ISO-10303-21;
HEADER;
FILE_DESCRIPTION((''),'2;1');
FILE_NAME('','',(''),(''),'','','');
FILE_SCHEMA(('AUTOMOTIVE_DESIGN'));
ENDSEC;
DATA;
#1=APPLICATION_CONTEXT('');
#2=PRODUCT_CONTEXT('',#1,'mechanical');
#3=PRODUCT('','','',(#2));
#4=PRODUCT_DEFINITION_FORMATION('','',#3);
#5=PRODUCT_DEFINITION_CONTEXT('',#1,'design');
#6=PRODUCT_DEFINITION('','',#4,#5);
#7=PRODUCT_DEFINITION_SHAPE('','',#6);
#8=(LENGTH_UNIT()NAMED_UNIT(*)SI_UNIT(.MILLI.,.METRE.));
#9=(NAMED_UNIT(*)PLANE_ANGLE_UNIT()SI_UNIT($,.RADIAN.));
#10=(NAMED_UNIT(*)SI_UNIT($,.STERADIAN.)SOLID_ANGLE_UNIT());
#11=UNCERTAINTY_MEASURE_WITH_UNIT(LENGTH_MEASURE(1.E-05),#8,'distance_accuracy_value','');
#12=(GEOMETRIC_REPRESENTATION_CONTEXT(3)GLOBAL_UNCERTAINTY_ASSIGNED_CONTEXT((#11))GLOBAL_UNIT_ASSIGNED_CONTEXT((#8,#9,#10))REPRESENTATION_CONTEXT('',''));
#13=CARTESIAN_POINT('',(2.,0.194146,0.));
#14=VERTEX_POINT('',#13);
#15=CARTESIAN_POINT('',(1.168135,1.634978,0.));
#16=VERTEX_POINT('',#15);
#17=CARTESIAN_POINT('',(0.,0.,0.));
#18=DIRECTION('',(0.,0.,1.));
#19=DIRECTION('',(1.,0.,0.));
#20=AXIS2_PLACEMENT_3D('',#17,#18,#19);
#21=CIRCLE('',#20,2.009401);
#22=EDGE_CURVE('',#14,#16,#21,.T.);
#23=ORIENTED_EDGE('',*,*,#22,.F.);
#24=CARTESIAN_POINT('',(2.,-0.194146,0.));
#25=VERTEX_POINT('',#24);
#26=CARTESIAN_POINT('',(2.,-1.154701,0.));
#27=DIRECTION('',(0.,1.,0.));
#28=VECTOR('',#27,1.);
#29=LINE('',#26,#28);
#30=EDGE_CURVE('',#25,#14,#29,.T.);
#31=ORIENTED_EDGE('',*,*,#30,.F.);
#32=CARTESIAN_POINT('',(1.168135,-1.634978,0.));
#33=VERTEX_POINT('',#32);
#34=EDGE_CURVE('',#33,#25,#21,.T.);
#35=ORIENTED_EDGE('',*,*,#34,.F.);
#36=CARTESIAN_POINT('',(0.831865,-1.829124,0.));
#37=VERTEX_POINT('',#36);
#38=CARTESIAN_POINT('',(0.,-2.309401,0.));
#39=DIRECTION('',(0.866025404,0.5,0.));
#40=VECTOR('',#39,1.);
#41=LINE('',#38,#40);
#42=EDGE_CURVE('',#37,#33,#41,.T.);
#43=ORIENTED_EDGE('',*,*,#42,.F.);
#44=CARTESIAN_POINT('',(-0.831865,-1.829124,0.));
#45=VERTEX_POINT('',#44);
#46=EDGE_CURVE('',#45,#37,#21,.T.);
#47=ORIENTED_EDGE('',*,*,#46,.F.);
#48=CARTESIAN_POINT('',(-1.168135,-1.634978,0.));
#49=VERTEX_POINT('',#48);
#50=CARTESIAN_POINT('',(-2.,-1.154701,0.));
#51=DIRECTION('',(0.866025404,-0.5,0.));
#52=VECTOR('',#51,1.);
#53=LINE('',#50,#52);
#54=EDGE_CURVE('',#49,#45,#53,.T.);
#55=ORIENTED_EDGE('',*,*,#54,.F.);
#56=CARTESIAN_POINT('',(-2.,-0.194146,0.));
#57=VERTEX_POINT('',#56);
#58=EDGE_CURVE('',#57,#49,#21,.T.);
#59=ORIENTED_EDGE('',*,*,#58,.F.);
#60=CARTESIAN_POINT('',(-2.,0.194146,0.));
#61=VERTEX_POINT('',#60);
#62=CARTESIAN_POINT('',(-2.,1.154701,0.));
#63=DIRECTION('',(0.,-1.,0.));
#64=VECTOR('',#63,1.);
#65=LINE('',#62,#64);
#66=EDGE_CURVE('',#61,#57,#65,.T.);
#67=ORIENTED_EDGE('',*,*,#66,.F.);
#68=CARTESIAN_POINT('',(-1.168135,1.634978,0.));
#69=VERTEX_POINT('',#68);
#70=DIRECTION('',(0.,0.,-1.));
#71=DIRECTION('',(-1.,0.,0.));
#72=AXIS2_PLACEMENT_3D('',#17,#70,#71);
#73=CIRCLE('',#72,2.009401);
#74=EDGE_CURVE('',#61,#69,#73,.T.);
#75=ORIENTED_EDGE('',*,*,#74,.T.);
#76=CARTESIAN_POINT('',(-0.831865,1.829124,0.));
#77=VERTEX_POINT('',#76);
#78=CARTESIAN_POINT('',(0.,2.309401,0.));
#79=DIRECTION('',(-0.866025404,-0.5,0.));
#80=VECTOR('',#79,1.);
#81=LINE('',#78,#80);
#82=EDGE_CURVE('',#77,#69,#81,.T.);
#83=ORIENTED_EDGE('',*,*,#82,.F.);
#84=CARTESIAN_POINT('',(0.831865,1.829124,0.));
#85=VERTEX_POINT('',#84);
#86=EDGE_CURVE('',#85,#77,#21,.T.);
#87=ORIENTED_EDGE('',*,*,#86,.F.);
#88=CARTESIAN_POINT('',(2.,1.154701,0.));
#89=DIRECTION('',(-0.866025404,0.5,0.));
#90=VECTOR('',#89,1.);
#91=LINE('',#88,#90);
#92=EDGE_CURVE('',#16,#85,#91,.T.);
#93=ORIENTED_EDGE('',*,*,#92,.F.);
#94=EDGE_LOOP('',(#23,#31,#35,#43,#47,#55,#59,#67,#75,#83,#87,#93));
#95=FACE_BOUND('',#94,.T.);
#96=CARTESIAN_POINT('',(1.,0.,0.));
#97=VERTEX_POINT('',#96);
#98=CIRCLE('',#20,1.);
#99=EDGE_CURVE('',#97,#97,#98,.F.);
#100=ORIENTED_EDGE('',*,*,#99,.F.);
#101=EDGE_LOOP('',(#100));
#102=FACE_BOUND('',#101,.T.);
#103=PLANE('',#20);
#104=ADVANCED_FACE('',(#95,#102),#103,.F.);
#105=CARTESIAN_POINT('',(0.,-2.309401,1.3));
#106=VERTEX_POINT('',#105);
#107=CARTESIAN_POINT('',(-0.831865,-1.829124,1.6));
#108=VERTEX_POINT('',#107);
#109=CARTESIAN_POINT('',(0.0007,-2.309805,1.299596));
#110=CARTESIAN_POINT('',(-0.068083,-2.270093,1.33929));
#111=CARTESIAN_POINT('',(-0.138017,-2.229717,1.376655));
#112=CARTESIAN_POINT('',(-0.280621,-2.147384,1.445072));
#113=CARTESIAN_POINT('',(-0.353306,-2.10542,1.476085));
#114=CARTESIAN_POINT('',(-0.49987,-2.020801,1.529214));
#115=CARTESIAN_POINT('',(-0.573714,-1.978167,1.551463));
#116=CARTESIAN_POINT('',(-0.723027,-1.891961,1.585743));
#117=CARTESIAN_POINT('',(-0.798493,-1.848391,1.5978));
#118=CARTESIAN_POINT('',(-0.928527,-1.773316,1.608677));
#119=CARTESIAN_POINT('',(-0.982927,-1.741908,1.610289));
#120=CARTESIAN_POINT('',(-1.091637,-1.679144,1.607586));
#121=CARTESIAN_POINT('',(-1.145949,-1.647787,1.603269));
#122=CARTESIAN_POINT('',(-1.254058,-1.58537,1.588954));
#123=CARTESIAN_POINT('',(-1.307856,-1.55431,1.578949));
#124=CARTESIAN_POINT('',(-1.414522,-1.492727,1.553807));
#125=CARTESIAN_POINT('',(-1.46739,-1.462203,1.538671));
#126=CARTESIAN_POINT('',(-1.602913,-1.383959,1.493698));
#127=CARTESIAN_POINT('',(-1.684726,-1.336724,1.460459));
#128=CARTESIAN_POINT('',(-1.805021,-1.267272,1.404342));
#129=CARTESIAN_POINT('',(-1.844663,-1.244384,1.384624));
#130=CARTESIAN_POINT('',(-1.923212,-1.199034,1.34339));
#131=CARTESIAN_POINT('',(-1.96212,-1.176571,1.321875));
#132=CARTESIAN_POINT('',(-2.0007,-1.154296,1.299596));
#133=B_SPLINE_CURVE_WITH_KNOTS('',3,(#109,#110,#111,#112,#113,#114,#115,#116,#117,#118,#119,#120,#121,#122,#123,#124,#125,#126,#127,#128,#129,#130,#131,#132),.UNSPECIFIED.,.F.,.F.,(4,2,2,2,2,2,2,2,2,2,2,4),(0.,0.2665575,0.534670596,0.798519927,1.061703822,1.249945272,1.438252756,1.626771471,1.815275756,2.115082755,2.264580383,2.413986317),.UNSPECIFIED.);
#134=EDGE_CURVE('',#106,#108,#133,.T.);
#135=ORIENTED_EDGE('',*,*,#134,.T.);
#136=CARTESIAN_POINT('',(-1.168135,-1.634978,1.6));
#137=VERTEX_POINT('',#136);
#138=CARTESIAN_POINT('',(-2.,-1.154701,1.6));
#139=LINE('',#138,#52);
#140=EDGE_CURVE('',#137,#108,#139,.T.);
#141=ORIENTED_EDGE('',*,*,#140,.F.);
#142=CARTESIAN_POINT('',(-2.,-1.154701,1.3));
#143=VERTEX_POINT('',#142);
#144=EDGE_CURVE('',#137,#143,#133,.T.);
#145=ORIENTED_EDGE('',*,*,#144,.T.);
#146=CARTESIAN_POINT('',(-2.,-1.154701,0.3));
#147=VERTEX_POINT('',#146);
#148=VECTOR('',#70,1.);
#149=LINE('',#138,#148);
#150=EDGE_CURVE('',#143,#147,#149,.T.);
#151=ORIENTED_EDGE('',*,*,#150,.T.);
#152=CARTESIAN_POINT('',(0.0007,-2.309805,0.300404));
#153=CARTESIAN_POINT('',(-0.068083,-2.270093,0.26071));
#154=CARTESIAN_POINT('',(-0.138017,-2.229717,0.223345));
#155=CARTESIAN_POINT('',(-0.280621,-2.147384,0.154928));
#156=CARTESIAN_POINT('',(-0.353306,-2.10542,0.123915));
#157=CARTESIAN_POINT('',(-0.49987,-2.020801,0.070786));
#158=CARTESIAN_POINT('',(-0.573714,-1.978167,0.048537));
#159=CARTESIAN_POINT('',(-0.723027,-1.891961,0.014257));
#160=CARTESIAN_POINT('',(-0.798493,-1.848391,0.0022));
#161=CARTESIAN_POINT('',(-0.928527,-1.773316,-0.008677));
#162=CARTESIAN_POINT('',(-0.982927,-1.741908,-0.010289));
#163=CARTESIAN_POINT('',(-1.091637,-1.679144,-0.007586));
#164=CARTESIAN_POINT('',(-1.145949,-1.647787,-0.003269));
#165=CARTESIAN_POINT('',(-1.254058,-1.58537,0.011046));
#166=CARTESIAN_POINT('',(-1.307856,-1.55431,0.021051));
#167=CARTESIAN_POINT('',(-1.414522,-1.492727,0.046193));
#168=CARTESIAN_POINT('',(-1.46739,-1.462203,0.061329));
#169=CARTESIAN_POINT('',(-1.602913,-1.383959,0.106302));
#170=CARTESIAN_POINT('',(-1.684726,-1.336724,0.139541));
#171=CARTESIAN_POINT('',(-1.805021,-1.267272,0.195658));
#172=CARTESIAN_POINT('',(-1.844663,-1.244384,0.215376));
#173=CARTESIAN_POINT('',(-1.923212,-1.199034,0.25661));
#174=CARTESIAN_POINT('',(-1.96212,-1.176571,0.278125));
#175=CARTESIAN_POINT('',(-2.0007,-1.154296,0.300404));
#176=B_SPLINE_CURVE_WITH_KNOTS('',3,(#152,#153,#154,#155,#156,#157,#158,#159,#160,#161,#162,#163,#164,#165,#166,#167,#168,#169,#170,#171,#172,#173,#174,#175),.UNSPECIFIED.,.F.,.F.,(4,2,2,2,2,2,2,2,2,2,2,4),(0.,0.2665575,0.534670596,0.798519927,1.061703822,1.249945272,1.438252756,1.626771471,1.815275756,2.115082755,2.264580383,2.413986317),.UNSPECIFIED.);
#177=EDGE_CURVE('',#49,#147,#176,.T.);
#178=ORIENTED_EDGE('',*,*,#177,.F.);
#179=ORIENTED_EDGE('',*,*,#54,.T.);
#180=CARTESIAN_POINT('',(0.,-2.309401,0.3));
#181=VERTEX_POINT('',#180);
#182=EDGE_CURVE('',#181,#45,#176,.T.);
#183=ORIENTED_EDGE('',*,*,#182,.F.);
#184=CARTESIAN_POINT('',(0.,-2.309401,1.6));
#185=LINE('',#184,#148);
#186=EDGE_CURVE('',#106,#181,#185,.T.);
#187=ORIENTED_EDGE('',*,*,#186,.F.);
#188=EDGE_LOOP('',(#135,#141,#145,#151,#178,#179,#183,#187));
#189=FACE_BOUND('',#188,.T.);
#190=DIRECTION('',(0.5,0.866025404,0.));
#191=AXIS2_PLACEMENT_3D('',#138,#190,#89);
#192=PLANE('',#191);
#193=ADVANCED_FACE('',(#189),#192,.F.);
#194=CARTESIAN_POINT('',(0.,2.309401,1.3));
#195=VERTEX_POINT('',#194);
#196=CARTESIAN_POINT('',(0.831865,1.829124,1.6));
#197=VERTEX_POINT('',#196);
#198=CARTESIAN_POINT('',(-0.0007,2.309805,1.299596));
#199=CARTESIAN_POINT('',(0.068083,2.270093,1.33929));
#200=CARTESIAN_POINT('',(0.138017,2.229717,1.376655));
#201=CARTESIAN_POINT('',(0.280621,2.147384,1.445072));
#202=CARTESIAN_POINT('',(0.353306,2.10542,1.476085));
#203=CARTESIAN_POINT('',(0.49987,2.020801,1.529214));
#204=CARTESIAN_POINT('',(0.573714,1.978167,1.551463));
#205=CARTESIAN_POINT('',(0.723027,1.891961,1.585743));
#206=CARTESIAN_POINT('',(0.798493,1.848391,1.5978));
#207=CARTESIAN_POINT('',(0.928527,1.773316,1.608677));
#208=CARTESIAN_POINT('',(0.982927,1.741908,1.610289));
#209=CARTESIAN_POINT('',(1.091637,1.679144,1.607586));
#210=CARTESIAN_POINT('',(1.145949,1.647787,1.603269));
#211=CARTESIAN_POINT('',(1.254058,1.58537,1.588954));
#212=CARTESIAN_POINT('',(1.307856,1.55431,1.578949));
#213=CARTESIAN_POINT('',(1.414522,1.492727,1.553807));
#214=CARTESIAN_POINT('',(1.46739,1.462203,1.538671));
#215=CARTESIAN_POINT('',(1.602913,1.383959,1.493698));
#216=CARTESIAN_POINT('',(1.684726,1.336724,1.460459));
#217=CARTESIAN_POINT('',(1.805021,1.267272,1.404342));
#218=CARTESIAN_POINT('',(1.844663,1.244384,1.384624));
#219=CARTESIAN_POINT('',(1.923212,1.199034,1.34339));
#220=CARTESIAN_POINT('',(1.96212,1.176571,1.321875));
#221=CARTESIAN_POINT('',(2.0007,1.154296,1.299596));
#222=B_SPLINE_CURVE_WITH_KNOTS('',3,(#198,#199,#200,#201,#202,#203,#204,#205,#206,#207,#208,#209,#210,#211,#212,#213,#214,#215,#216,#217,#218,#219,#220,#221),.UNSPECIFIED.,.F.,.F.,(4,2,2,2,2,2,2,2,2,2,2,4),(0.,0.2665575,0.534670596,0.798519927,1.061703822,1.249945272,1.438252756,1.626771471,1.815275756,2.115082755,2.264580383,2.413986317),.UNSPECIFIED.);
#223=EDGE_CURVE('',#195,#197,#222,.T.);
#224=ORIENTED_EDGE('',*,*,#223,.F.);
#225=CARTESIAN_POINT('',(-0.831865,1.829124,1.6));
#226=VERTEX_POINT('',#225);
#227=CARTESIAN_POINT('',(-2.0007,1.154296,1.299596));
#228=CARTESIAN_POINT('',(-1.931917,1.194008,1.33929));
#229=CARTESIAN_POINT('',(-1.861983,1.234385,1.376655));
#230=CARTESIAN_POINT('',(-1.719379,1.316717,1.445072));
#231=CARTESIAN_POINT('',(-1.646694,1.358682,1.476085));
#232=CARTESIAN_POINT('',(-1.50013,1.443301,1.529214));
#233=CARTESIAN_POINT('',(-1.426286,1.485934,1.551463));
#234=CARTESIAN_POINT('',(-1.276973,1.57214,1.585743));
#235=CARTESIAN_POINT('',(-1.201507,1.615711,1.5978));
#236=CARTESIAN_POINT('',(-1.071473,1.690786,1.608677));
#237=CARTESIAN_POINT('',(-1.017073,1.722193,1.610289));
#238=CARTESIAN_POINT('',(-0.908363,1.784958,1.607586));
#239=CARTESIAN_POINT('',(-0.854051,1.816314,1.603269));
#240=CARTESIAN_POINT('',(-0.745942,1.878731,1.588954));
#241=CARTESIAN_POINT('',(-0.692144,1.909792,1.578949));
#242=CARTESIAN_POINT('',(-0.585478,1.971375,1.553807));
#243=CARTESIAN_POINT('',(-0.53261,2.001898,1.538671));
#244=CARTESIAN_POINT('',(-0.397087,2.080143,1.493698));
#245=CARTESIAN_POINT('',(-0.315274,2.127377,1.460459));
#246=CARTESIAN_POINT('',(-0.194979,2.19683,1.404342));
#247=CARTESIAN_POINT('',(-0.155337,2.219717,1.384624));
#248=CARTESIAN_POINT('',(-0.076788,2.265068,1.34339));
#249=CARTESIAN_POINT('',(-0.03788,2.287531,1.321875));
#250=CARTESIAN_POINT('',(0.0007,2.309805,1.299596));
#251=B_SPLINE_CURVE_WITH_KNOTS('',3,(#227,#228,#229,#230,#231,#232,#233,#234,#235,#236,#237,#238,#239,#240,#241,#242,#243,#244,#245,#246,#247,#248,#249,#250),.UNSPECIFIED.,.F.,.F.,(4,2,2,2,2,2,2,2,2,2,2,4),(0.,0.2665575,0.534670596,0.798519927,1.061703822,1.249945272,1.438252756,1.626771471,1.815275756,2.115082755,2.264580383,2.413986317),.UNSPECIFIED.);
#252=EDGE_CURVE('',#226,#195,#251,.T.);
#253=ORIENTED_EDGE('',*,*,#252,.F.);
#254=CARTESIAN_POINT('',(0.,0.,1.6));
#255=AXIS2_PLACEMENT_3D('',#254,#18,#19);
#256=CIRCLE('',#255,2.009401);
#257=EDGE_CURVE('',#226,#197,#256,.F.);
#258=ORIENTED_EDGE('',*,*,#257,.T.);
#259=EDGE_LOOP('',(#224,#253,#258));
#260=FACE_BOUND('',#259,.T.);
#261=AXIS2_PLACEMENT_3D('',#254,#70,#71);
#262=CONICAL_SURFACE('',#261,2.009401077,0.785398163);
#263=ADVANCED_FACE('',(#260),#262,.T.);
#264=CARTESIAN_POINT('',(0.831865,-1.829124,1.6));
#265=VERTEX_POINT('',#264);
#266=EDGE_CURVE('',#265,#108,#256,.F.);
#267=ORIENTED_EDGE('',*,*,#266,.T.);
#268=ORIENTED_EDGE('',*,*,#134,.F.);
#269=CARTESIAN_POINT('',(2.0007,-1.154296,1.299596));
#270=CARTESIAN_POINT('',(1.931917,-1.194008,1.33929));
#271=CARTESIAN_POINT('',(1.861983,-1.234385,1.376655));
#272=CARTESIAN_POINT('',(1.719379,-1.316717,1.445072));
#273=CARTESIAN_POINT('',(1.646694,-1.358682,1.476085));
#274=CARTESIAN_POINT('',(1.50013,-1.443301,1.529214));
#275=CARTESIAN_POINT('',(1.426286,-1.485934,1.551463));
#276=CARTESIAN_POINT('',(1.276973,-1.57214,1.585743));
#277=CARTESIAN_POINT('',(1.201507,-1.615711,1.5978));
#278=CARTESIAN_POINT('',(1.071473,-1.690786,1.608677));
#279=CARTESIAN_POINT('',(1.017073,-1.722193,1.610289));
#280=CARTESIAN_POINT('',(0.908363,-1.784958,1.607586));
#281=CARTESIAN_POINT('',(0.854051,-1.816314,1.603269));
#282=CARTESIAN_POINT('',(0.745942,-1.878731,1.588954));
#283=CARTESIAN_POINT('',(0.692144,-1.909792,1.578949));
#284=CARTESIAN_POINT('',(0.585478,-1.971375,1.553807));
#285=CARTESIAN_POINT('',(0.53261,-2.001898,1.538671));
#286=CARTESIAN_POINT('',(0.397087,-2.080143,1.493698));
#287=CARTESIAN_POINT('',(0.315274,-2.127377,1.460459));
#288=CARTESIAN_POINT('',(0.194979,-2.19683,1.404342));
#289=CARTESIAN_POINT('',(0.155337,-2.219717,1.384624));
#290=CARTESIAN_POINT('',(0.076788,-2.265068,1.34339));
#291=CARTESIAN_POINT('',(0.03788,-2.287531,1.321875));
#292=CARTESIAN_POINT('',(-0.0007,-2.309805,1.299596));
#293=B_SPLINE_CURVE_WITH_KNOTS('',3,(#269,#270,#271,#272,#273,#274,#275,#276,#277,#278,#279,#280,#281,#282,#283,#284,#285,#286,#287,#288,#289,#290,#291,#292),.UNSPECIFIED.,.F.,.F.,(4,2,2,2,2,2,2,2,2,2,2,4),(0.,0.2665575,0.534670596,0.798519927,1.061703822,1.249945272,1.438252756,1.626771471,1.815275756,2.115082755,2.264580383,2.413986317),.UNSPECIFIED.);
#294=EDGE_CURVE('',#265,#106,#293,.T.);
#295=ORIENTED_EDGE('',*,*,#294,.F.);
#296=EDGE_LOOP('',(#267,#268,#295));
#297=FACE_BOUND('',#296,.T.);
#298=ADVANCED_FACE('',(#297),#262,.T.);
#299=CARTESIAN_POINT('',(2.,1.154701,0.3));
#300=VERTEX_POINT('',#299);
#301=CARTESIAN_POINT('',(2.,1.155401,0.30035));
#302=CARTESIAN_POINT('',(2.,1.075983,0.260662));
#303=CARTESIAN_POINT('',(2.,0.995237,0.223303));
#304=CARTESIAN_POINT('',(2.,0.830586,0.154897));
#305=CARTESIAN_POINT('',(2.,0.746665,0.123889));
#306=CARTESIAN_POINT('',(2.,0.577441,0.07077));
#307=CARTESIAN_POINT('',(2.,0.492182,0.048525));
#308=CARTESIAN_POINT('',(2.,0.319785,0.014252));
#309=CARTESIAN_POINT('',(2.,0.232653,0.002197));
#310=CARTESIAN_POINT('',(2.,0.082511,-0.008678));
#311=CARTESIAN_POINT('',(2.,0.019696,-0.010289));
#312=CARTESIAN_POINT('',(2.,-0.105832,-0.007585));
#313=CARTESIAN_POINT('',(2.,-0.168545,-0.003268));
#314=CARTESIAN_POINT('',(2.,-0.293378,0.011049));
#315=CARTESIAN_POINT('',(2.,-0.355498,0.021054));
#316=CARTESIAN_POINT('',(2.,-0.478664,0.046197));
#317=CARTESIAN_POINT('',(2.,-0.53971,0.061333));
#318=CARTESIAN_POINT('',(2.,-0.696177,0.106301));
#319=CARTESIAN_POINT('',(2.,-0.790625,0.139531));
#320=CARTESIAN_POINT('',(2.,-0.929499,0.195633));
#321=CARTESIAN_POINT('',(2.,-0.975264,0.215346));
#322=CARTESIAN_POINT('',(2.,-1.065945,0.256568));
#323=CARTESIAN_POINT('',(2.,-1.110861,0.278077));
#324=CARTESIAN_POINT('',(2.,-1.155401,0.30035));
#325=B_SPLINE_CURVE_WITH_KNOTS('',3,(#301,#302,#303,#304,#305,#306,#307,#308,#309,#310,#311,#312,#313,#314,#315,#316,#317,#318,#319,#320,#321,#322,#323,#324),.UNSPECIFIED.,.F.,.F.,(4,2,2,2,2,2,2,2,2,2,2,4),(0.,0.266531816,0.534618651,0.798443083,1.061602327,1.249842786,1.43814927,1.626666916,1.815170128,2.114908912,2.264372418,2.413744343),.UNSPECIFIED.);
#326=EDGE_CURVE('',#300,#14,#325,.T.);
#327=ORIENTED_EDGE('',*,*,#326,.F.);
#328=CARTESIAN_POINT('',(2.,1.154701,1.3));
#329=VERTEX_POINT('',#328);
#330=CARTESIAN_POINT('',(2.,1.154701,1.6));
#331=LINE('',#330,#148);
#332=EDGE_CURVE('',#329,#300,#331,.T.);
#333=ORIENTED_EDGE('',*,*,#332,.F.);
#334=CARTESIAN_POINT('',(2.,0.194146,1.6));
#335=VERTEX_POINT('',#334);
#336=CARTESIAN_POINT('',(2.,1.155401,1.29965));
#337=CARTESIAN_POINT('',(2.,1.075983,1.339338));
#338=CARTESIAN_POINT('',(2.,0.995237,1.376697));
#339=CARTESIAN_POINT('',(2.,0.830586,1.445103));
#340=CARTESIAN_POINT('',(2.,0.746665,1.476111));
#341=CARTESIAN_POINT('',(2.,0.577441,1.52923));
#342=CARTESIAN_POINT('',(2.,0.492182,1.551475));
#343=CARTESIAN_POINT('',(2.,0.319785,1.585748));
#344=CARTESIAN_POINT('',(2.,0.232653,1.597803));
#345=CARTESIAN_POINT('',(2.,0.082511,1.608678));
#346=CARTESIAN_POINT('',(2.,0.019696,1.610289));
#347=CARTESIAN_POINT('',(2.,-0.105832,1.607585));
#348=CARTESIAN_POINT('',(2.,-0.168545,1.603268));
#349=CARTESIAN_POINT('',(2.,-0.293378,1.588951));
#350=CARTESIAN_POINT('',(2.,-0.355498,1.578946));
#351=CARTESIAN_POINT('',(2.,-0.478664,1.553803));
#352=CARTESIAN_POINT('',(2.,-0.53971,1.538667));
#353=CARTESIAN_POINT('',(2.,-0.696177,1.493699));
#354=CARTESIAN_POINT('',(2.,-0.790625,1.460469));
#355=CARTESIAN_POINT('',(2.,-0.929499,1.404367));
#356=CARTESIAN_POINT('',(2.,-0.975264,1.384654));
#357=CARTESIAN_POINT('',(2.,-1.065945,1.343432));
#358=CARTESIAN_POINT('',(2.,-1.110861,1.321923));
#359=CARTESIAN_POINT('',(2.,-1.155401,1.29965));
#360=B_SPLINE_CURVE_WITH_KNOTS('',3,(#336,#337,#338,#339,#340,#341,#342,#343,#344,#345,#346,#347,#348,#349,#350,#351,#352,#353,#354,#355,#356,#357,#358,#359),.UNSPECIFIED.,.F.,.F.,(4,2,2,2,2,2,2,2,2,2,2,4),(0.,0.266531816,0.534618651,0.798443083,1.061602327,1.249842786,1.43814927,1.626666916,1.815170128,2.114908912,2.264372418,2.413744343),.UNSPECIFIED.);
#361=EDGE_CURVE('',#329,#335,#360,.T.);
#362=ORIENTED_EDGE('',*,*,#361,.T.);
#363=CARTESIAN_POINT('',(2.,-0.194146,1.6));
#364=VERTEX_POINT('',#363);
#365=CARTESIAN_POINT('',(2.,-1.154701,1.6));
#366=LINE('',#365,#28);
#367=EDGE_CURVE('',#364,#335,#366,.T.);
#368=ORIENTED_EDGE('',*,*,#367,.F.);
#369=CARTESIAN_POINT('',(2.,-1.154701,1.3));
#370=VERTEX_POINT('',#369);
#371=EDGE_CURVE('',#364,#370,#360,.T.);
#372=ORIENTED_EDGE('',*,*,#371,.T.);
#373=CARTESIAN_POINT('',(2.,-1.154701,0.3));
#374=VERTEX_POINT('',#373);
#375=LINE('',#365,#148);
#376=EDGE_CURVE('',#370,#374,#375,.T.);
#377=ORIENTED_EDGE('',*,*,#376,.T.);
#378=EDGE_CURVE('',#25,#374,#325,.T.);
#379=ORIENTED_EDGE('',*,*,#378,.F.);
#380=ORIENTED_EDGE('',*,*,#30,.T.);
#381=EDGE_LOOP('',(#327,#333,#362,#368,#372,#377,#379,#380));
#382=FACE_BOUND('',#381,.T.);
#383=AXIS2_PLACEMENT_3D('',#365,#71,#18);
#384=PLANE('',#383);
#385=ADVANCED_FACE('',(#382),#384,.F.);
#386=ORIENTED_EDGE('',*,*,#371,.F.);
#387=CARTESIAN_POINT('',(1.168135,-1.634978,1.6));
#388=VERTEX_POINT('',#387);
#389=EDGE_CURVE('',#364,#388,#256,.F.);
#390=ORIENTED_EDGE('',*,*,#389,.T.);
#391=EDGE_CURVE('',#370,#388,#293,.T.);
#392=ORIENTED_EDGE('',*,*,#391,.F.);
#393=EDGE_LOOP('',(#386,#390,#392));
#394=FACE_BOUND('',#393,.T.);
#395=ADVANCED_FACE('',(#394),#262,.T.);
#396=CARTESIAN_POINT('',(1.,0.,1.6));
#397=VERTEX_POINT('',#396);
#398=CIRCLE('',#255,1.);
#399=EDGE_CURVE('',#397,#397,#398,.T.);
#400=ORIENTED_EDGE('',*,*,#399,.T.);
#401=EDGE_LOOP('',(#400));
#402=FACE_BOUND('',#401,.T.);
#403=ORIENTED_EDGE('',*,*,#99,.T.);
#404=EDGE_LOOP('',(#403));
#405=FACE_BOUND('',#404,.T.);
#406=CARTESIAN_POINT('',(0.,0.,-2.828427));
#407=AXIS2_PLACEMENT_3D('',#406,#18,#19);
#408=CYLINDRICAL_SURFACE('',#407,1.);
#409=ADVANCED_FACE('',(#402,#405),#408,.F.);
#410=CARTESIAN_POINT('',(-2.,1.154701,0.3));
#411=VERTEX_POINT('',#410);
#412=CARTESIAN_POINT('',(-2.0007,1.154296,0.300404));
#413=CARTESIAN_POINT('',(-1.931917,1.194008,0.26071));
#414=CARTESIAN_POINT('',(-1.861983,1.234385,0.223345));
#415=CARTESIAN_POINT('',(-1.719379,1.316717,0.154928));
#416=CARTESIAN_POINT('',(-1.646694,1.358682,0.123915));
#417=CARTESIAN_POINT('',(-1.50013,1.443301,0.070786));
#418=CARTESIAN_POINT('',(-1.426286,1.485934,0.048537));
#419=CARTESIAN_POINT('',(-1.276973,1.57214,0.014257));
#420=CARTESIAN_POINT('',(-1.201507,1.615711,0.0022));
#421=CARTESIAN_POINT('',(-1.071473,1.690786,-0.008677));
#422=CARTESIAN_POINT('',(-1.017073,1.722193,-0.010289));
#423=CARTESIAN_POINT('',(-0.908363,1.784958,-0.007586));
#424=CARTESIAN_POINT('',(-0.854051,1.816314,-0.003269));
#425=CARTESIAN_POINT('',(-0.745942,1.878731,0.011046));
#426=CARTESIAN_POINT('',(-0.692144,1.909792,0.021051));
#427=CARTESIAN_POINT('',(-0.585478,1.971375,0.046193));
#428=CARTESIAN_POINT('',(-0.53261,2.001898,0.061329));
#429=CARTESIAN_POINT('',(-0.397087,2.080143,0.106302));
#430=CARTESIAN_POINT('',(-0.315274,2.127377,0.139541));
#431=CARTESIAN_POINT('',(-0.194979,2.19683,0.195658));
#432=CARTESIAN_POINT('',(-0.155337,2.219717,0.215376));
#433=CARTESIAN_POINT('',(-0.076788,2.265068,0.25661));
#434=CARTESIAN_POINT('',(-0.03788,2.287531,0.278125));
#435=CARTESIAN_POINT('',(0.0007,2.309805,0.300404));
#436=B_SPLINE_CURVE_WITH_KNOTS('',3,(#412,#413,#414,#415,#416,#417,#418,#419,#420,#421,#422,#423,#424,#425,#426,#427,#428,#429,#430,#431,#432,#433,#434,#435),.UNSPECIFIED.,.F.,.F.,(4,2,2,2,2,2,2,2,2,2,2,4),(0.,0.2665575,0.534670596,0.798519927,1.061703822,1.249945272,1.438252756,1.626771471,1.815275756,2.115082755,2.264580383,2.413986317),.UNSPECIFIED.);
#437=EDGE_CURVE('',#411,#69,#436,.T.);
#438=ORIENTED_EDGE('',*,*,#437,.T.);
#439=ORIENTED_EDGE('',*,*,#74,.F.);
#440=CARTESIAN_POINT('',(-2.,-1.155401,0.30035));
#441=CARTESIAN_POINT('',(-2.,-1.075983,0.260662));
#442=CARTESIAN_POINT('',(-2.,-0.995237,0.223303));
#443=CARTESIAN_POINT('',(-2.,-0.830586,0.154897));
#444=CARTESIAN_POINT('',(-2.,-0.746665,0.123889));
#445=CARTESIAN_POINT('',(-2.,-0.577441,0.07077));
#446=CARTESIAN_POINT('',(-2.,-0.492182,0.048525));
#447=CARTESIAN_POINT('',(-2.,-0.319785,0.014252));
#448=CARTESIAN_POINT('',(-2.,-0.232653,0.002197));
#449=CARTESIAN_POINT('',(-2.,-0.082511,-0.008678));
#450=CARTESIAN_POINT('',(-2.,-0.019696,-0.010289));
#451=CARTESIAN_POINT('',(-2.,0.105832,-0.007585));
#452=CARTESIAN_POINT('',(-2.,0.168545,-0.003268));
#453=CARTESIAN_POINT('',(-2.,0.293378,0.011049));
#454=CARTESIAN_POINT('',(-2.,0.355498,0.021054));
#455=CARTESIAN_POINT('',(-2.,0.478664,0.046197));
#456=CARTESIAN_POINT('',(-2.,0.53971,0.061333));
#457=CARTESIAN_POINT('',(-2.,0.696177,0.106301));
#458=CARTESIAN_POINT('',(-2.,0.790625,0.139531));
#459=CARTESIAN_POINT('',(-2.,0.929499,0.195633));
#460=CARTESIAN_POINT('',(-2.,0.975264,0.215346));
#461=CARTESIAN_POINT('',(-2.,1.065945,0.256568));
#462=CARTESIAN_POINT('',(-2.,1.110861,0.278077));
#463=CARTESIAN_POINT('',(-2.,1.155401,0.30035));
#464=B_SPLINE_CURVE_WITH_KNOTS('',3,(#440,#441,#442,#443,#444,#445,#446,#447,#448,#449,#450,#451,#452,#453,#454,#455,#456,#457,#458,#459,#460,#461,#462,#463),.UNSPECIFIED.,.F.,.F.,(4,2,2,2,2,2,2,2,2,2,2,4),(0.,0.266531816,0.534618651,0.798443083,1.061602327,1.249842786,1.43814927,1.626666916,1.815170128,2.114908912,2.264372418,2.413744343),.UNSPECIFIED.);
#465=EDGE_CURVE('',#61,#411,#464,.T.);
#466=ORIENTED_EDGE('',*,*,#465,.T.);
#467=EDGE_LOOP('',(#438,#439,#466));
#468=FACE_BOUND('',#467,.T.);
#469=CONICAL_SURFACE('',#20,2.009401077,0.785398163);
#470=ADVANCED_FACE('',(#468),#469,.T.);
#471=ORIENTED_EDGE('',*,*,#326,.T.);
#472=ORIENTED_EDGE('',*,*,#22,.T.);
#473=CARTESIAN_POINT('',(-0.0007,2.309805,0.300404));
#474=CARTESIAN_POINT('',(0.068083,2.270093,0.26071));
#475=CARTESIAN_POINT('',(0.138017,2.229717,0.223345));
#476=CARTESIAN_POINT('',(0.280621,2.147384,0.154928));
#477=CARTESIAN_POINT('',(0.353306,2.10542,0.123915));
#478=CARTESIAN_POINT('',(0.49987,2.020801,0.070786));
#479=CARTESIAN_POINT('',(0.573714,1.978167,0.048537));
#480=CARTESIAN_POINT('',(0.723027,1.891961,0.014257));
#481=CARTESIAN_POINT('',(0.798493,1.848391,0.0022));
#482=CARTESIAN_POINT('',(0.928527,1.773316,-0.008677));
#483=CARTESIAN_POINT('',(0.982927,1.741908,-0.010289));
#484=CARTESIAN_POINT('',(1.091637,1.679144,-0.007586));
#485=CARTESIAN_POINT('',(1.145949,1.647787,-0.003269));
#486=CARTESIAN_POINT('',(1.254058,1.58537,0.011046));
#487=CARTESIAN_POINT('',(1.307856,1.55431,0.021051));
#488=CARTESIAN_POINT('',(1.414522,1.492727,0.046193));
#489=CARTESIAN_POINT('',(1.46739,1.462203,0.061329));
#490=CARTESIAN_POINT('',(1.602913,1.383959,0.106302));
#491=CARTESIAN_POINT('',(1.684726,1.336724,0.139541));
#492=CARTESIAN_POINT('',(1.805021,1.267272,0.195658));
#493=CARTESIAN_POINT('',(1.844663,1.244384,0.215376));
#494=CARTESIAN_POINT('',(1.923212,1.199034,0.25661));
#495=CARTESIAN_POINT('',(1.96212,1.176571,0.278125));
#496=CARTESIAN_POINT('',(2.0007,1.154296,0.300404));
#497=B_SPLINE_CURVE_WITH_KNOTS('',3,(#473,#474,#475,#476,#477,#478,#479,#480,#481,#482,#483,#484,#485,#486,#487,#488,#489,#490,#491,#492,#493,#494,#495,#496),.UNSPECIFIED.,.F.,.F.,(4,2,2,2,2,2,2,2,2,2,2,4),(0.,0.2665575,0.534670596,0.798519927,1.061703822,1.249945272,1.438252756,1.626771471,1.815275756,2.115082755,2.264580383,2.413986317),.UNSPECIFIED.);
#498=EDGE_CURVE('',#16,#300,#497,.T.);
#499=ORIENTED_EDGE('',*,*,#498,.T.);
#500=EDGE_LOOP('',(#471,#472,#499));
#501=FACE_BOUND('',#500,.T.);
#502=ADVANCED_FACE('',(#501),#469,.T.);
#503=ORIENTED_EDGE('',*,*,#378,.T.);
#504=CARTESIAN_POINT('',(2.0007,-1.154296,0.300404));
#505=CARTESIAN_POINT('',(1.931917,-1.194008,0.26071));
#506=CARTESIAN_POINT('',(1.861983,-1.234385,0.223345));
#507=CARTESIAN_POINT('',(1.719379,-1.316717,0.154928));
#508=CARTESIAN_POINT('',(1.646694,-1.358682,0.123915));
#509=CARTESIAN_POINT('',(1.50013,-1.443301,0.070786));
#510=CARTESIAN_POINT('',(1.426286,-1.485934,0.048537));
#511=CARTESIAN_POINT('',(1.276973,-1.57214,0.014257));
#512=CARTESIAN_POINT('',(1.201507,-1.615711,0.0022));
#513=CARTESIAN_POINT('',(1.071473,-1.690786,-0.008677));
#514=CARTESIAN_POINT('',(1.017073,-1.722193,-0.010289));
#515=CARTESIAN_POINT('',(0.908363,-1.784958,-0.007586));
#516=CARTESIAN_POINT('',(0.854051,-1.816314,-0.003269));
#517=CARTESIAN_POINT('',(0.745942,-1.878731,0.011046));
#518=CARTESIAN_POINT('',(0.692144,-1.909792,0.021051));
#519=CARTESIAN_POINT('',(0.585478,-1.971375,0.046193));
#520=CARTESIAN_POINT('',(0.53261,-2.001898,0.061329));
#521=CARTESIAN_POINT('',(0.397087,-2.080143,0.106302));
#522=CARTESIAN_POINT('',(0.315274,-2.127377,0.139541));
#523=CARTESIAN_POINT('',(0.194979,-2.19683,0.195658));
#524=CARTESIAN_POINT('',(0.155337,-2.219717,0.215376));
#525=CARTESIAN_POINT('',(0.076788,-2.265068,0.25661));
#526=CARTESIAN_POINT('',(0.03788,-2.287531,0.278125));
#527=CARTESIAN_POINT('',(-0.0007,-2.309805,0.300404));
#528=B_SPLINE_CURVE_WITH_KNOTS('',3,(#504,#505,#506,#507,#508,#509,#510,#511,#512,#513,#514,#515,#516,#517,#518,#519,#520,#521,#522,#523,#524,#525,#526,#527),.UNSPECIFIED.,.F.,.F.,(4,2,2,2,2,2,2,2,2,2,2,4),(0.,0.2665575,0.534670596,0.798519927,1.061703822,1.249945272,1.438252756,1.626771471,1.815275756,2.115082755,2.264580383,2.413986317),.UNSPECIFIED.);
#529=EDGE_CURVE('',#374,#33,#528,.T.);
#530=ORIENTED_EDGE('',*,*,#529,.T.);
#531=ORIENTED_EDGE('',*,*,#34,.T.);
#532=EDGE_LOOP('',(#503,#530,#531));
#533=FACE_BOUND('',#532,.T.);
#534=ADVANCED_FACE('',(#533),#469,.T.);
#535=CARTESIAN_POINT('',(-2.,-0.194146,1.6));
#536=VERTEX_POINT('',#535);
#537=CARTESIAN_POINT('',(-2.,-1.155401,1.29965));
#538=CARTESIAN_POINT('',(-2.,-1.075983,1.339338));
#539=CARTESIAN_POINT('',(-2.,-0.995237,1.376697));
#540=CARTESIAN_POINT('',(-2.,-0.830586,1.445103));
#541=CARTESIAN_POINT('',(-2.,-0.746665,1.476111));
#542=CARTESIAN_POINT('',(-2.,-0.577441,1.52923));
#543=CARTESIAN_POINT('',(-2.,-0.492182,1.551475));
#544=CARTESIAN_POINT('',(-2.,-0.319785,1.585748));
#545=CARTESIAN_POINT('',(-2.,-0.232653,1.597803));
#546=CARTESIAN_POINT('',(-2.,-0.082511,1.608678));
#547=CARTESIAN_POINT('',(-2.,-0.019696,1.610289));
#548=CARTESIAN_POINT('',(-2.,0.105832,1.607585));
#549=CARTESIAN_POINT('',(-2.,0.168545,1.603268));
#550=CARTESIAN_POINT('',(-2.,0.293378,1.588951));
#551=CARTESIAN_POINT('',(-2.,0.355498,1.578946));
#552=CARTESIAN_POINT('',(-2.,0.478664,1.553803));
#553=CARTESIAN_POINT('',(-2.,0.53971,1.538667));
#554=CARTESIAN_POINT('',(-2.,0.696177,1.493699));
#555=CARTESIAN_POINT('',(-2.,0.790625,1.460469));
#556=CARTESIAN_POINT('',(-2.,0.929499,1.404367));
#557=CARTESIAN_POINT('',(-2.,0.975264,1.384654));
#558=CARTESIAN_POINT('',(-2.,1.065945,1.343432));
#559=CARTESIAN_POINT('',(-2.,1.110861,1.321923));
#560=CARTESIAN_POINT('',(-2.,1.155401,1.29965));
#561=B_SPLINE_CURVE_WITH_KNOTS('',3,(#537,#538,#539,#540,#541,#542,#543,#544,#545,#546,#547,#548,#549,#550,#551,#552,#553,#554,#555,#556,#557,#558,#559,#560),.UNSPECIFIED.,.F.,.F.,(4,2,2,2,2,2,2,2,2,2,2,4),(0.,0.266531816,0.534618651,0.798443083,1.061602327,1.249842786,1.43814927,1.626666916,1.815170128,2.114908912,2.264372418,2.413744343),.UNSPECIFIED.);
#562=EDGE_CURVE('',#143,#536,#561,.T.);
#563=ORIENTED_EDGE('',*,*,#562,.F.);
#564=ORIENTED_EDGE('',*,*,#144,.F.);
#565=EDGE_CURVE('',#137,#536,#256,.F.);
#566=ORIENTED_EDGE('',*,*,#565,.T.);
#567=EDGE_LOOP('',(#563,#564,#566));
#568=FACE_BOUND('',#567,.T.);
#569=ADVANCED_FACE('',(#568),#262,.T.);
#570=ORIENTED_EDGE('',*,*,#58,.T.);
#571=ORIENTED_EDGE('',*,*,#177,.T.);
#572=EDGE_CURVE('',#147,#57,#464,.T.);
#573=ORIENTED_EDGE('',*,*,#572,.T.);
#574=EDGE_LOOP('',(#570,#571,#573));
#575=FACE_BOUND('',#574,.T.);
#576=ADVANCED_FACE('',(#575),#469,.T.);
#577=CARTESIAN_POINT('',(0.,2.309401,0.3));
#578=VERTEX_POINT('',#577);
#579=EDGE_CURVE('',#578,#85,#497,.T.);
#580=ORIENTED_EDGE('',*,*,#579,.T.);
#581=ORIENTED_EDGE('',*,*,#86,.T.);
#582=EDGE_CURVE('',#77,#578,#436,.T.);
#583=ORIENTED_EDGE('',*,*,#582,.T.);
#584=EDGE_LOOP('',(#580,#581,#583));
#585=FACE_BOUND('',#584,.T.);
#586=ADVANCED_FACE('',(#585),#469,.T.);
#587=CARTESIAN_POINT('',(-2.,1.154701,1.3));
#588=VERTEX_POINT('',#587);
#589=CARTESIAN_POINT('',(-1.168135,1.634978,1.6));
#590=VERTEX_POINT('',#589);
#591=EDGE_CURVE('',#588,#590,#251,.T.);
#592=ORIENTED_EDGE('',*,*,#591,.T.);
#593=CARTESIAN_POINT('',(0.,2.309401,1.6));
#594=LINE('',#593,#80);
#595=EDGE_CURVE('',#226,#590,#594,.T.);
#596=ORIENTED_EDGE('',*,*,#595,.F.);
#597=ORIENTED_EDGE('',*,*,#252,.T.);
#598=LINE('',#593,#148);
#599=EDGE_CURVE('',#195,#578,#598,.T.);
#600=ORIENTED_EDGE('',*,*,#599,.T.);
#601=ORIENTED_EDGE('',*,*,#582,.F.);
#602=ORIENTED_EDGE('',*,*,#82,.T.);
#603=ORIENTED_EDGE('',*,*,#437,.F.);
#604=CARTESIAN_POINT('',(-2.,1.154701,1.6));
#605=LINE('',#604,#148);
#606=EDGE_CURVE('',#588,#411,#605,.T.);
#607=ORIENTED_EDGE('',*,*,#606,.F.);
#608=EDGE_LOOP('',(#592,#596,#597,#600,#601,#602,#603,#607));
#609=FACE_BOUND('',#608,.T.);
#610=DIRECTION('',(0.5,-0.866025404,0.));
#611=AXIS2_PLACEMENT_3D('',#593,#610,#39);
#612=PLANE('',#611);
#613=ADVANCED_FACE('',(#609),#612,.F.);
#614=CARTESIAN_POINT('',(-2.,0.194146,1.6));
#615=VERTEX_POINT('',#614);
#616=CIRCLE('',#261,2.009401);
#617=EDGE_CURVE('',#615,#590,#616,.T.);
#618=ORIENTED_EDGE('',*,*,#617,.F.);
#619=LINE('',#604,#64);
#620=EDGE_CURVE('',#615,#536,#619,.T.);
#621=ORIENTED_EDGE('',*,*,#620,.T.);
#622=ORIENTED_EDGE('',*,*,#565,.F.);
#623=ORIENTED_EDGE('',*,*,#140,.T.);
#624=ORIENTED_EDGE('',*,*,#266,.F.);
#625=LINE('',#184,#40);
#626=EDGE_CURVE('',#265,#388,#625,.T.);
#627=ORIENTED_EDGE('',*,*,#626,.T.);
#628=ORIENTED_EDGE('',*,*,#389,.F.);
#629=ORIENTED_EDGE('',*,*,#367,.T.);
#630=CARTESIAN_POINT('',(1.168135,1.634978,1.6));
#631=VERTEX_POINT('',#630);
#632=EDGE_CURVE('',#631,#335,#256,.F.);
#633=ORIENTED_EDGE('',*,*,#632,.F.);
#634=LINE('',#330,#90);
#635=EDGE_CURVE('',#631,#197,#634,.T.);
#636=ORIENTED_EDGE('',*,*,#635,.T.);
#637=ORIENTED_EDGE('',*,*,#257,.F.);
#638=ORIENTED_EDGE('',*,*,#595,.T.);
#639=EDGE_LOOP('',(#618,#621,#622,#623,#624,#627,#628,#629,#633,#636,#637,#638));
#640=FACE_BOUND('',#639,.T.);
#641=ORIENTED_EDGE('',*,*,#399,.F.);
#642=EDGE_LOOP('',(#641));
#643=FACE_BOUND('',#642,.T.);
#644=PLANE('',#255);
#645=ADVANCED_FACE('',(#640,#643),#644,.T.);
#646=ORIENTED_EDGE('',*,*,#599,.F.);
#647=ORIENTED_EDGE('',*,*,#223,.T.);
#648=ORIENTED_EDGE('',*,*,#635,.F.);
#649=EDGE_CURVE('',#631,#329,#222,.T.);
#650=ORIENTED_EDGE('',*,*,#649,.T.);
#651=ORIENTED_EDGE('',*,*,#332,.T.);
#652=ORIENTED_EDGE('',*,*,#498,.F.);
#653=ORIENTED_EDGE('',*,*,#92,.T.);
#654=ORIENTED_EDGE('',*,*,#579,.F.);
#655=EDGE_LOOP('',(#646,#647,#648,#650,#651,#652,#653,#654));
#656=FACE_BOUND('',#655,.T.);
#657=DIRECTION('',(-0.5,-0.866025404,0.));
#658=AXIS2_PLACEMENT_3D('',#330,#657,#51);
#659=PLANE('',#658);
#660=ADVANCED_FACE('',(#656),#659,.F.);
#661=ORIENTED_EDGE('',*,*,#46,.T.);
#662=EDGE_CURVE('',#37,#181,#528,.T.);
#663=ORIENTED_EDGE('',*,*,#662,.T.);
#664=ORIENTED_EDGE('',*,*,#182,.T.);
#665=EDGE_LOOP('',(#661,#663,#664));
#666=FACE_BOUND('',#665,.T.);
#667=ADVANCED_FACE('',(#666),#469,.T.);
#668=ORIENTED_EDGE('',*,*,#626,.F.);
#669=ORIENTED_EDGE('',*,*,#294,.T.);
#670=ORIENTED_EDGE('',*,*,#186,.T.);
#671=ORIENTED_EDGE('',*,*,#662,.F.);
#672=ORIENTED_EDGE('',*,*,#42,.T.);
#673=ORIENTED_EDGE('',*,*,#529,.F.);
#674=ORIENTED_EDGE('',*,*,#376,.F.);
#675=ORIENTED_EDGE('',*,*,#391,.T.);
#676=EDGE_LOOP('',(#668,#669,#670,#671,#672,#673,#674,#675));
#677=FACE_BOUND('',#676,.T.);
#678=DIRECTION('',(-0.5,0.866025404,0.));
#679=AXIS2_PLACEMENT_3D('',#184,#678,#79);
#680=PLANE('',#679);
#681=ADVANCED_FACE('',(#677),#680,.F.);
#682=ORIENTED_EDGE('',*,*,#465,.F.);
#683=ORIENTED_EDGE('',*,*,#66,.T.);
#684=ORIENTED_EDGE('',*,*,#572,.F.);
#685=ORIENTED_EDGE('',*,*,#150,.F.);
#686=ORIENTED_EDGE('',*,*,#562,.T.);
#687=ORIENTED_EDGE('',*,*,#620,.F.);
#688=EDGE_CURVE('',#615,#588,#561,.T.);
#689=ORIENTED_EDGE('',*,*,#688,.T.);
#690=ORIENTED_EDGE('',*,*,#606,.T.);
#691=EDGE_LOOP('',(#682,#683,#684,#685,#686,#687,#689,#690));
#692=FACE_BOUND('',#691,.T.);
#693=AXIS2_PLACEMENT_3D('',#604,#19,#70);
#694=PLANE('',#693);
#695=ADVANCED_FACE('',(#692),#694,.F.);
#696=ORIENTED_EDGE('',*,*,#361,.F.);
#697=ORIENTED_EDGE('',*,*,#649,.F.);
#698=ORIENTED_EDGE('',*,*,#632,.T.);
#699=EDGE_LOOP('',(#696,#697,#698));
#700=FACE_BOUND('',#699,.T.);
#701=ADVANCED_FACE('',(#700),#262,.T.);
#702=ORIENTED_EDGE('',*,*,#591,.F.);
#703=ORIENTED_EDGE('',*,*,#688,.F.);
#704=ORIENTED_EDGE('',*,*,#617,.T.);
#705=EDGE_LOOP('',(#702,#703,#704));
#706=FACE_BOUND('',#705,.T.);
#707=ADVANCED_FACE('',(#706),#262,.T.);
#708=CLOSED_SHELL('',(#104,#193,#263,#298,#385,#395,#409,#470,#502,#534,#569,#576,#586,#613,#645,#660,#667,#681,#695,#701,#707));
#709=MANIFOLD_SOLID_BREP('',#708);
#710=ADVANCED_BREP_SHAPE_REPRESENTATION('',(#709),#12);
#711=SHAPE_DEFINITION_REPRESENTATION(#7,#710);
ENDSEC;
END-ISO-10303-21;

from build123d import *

# Parameters (mm, degrees)
EXTRUDE_1_DEPTH     = 1.6
SKETCH_6_R          = 1
CUT_EXTRUDE_1_DEPTH = 1.6


with BuildPart() as part:
    # 草图3 → 凸台-拉伸1 (new body)
    with BuildSketch(Plane.XY):
        Polygon((2, 1.154700538), (0, 2.309401077), (-2, 1.154700538), (-2, -1.154700538), (0, -2.309401077), (2, -1.154700538), align=None)
    extrude(amount=EXTRUDE_1_DEPTH)

    # 草图5 → 切除-旋转1 (revolve, cut)
    with BuildSketch(Plane(origin=(0, 0, 0), x_dir=(0, 0, -1), z_dir=(1, 0, 0))):
        Polygon((-1.3, 2.309401077), (-1.6, 2.309401077), (-1.6, 2.009401077), align=None)
        Polygon((0, 2.009401077), (-0.3, 2.309401077), (0, 2.309401077), align=None)
    revolve(axis=Axis((0, 0, 0), (0, 0, 1)), mode=Mode.SUBTRACT)

    # 草图6 → 切除-拉伸1 (cut)
    with BuildSketch(Plane.XY.offset(1.6)):
        Circle(SKETCH_6_R)
    extrude(amount=-CUT_EXTRUDE_1_DEPTH, mode=Mode.SUBTRACT)


solid = part.part
